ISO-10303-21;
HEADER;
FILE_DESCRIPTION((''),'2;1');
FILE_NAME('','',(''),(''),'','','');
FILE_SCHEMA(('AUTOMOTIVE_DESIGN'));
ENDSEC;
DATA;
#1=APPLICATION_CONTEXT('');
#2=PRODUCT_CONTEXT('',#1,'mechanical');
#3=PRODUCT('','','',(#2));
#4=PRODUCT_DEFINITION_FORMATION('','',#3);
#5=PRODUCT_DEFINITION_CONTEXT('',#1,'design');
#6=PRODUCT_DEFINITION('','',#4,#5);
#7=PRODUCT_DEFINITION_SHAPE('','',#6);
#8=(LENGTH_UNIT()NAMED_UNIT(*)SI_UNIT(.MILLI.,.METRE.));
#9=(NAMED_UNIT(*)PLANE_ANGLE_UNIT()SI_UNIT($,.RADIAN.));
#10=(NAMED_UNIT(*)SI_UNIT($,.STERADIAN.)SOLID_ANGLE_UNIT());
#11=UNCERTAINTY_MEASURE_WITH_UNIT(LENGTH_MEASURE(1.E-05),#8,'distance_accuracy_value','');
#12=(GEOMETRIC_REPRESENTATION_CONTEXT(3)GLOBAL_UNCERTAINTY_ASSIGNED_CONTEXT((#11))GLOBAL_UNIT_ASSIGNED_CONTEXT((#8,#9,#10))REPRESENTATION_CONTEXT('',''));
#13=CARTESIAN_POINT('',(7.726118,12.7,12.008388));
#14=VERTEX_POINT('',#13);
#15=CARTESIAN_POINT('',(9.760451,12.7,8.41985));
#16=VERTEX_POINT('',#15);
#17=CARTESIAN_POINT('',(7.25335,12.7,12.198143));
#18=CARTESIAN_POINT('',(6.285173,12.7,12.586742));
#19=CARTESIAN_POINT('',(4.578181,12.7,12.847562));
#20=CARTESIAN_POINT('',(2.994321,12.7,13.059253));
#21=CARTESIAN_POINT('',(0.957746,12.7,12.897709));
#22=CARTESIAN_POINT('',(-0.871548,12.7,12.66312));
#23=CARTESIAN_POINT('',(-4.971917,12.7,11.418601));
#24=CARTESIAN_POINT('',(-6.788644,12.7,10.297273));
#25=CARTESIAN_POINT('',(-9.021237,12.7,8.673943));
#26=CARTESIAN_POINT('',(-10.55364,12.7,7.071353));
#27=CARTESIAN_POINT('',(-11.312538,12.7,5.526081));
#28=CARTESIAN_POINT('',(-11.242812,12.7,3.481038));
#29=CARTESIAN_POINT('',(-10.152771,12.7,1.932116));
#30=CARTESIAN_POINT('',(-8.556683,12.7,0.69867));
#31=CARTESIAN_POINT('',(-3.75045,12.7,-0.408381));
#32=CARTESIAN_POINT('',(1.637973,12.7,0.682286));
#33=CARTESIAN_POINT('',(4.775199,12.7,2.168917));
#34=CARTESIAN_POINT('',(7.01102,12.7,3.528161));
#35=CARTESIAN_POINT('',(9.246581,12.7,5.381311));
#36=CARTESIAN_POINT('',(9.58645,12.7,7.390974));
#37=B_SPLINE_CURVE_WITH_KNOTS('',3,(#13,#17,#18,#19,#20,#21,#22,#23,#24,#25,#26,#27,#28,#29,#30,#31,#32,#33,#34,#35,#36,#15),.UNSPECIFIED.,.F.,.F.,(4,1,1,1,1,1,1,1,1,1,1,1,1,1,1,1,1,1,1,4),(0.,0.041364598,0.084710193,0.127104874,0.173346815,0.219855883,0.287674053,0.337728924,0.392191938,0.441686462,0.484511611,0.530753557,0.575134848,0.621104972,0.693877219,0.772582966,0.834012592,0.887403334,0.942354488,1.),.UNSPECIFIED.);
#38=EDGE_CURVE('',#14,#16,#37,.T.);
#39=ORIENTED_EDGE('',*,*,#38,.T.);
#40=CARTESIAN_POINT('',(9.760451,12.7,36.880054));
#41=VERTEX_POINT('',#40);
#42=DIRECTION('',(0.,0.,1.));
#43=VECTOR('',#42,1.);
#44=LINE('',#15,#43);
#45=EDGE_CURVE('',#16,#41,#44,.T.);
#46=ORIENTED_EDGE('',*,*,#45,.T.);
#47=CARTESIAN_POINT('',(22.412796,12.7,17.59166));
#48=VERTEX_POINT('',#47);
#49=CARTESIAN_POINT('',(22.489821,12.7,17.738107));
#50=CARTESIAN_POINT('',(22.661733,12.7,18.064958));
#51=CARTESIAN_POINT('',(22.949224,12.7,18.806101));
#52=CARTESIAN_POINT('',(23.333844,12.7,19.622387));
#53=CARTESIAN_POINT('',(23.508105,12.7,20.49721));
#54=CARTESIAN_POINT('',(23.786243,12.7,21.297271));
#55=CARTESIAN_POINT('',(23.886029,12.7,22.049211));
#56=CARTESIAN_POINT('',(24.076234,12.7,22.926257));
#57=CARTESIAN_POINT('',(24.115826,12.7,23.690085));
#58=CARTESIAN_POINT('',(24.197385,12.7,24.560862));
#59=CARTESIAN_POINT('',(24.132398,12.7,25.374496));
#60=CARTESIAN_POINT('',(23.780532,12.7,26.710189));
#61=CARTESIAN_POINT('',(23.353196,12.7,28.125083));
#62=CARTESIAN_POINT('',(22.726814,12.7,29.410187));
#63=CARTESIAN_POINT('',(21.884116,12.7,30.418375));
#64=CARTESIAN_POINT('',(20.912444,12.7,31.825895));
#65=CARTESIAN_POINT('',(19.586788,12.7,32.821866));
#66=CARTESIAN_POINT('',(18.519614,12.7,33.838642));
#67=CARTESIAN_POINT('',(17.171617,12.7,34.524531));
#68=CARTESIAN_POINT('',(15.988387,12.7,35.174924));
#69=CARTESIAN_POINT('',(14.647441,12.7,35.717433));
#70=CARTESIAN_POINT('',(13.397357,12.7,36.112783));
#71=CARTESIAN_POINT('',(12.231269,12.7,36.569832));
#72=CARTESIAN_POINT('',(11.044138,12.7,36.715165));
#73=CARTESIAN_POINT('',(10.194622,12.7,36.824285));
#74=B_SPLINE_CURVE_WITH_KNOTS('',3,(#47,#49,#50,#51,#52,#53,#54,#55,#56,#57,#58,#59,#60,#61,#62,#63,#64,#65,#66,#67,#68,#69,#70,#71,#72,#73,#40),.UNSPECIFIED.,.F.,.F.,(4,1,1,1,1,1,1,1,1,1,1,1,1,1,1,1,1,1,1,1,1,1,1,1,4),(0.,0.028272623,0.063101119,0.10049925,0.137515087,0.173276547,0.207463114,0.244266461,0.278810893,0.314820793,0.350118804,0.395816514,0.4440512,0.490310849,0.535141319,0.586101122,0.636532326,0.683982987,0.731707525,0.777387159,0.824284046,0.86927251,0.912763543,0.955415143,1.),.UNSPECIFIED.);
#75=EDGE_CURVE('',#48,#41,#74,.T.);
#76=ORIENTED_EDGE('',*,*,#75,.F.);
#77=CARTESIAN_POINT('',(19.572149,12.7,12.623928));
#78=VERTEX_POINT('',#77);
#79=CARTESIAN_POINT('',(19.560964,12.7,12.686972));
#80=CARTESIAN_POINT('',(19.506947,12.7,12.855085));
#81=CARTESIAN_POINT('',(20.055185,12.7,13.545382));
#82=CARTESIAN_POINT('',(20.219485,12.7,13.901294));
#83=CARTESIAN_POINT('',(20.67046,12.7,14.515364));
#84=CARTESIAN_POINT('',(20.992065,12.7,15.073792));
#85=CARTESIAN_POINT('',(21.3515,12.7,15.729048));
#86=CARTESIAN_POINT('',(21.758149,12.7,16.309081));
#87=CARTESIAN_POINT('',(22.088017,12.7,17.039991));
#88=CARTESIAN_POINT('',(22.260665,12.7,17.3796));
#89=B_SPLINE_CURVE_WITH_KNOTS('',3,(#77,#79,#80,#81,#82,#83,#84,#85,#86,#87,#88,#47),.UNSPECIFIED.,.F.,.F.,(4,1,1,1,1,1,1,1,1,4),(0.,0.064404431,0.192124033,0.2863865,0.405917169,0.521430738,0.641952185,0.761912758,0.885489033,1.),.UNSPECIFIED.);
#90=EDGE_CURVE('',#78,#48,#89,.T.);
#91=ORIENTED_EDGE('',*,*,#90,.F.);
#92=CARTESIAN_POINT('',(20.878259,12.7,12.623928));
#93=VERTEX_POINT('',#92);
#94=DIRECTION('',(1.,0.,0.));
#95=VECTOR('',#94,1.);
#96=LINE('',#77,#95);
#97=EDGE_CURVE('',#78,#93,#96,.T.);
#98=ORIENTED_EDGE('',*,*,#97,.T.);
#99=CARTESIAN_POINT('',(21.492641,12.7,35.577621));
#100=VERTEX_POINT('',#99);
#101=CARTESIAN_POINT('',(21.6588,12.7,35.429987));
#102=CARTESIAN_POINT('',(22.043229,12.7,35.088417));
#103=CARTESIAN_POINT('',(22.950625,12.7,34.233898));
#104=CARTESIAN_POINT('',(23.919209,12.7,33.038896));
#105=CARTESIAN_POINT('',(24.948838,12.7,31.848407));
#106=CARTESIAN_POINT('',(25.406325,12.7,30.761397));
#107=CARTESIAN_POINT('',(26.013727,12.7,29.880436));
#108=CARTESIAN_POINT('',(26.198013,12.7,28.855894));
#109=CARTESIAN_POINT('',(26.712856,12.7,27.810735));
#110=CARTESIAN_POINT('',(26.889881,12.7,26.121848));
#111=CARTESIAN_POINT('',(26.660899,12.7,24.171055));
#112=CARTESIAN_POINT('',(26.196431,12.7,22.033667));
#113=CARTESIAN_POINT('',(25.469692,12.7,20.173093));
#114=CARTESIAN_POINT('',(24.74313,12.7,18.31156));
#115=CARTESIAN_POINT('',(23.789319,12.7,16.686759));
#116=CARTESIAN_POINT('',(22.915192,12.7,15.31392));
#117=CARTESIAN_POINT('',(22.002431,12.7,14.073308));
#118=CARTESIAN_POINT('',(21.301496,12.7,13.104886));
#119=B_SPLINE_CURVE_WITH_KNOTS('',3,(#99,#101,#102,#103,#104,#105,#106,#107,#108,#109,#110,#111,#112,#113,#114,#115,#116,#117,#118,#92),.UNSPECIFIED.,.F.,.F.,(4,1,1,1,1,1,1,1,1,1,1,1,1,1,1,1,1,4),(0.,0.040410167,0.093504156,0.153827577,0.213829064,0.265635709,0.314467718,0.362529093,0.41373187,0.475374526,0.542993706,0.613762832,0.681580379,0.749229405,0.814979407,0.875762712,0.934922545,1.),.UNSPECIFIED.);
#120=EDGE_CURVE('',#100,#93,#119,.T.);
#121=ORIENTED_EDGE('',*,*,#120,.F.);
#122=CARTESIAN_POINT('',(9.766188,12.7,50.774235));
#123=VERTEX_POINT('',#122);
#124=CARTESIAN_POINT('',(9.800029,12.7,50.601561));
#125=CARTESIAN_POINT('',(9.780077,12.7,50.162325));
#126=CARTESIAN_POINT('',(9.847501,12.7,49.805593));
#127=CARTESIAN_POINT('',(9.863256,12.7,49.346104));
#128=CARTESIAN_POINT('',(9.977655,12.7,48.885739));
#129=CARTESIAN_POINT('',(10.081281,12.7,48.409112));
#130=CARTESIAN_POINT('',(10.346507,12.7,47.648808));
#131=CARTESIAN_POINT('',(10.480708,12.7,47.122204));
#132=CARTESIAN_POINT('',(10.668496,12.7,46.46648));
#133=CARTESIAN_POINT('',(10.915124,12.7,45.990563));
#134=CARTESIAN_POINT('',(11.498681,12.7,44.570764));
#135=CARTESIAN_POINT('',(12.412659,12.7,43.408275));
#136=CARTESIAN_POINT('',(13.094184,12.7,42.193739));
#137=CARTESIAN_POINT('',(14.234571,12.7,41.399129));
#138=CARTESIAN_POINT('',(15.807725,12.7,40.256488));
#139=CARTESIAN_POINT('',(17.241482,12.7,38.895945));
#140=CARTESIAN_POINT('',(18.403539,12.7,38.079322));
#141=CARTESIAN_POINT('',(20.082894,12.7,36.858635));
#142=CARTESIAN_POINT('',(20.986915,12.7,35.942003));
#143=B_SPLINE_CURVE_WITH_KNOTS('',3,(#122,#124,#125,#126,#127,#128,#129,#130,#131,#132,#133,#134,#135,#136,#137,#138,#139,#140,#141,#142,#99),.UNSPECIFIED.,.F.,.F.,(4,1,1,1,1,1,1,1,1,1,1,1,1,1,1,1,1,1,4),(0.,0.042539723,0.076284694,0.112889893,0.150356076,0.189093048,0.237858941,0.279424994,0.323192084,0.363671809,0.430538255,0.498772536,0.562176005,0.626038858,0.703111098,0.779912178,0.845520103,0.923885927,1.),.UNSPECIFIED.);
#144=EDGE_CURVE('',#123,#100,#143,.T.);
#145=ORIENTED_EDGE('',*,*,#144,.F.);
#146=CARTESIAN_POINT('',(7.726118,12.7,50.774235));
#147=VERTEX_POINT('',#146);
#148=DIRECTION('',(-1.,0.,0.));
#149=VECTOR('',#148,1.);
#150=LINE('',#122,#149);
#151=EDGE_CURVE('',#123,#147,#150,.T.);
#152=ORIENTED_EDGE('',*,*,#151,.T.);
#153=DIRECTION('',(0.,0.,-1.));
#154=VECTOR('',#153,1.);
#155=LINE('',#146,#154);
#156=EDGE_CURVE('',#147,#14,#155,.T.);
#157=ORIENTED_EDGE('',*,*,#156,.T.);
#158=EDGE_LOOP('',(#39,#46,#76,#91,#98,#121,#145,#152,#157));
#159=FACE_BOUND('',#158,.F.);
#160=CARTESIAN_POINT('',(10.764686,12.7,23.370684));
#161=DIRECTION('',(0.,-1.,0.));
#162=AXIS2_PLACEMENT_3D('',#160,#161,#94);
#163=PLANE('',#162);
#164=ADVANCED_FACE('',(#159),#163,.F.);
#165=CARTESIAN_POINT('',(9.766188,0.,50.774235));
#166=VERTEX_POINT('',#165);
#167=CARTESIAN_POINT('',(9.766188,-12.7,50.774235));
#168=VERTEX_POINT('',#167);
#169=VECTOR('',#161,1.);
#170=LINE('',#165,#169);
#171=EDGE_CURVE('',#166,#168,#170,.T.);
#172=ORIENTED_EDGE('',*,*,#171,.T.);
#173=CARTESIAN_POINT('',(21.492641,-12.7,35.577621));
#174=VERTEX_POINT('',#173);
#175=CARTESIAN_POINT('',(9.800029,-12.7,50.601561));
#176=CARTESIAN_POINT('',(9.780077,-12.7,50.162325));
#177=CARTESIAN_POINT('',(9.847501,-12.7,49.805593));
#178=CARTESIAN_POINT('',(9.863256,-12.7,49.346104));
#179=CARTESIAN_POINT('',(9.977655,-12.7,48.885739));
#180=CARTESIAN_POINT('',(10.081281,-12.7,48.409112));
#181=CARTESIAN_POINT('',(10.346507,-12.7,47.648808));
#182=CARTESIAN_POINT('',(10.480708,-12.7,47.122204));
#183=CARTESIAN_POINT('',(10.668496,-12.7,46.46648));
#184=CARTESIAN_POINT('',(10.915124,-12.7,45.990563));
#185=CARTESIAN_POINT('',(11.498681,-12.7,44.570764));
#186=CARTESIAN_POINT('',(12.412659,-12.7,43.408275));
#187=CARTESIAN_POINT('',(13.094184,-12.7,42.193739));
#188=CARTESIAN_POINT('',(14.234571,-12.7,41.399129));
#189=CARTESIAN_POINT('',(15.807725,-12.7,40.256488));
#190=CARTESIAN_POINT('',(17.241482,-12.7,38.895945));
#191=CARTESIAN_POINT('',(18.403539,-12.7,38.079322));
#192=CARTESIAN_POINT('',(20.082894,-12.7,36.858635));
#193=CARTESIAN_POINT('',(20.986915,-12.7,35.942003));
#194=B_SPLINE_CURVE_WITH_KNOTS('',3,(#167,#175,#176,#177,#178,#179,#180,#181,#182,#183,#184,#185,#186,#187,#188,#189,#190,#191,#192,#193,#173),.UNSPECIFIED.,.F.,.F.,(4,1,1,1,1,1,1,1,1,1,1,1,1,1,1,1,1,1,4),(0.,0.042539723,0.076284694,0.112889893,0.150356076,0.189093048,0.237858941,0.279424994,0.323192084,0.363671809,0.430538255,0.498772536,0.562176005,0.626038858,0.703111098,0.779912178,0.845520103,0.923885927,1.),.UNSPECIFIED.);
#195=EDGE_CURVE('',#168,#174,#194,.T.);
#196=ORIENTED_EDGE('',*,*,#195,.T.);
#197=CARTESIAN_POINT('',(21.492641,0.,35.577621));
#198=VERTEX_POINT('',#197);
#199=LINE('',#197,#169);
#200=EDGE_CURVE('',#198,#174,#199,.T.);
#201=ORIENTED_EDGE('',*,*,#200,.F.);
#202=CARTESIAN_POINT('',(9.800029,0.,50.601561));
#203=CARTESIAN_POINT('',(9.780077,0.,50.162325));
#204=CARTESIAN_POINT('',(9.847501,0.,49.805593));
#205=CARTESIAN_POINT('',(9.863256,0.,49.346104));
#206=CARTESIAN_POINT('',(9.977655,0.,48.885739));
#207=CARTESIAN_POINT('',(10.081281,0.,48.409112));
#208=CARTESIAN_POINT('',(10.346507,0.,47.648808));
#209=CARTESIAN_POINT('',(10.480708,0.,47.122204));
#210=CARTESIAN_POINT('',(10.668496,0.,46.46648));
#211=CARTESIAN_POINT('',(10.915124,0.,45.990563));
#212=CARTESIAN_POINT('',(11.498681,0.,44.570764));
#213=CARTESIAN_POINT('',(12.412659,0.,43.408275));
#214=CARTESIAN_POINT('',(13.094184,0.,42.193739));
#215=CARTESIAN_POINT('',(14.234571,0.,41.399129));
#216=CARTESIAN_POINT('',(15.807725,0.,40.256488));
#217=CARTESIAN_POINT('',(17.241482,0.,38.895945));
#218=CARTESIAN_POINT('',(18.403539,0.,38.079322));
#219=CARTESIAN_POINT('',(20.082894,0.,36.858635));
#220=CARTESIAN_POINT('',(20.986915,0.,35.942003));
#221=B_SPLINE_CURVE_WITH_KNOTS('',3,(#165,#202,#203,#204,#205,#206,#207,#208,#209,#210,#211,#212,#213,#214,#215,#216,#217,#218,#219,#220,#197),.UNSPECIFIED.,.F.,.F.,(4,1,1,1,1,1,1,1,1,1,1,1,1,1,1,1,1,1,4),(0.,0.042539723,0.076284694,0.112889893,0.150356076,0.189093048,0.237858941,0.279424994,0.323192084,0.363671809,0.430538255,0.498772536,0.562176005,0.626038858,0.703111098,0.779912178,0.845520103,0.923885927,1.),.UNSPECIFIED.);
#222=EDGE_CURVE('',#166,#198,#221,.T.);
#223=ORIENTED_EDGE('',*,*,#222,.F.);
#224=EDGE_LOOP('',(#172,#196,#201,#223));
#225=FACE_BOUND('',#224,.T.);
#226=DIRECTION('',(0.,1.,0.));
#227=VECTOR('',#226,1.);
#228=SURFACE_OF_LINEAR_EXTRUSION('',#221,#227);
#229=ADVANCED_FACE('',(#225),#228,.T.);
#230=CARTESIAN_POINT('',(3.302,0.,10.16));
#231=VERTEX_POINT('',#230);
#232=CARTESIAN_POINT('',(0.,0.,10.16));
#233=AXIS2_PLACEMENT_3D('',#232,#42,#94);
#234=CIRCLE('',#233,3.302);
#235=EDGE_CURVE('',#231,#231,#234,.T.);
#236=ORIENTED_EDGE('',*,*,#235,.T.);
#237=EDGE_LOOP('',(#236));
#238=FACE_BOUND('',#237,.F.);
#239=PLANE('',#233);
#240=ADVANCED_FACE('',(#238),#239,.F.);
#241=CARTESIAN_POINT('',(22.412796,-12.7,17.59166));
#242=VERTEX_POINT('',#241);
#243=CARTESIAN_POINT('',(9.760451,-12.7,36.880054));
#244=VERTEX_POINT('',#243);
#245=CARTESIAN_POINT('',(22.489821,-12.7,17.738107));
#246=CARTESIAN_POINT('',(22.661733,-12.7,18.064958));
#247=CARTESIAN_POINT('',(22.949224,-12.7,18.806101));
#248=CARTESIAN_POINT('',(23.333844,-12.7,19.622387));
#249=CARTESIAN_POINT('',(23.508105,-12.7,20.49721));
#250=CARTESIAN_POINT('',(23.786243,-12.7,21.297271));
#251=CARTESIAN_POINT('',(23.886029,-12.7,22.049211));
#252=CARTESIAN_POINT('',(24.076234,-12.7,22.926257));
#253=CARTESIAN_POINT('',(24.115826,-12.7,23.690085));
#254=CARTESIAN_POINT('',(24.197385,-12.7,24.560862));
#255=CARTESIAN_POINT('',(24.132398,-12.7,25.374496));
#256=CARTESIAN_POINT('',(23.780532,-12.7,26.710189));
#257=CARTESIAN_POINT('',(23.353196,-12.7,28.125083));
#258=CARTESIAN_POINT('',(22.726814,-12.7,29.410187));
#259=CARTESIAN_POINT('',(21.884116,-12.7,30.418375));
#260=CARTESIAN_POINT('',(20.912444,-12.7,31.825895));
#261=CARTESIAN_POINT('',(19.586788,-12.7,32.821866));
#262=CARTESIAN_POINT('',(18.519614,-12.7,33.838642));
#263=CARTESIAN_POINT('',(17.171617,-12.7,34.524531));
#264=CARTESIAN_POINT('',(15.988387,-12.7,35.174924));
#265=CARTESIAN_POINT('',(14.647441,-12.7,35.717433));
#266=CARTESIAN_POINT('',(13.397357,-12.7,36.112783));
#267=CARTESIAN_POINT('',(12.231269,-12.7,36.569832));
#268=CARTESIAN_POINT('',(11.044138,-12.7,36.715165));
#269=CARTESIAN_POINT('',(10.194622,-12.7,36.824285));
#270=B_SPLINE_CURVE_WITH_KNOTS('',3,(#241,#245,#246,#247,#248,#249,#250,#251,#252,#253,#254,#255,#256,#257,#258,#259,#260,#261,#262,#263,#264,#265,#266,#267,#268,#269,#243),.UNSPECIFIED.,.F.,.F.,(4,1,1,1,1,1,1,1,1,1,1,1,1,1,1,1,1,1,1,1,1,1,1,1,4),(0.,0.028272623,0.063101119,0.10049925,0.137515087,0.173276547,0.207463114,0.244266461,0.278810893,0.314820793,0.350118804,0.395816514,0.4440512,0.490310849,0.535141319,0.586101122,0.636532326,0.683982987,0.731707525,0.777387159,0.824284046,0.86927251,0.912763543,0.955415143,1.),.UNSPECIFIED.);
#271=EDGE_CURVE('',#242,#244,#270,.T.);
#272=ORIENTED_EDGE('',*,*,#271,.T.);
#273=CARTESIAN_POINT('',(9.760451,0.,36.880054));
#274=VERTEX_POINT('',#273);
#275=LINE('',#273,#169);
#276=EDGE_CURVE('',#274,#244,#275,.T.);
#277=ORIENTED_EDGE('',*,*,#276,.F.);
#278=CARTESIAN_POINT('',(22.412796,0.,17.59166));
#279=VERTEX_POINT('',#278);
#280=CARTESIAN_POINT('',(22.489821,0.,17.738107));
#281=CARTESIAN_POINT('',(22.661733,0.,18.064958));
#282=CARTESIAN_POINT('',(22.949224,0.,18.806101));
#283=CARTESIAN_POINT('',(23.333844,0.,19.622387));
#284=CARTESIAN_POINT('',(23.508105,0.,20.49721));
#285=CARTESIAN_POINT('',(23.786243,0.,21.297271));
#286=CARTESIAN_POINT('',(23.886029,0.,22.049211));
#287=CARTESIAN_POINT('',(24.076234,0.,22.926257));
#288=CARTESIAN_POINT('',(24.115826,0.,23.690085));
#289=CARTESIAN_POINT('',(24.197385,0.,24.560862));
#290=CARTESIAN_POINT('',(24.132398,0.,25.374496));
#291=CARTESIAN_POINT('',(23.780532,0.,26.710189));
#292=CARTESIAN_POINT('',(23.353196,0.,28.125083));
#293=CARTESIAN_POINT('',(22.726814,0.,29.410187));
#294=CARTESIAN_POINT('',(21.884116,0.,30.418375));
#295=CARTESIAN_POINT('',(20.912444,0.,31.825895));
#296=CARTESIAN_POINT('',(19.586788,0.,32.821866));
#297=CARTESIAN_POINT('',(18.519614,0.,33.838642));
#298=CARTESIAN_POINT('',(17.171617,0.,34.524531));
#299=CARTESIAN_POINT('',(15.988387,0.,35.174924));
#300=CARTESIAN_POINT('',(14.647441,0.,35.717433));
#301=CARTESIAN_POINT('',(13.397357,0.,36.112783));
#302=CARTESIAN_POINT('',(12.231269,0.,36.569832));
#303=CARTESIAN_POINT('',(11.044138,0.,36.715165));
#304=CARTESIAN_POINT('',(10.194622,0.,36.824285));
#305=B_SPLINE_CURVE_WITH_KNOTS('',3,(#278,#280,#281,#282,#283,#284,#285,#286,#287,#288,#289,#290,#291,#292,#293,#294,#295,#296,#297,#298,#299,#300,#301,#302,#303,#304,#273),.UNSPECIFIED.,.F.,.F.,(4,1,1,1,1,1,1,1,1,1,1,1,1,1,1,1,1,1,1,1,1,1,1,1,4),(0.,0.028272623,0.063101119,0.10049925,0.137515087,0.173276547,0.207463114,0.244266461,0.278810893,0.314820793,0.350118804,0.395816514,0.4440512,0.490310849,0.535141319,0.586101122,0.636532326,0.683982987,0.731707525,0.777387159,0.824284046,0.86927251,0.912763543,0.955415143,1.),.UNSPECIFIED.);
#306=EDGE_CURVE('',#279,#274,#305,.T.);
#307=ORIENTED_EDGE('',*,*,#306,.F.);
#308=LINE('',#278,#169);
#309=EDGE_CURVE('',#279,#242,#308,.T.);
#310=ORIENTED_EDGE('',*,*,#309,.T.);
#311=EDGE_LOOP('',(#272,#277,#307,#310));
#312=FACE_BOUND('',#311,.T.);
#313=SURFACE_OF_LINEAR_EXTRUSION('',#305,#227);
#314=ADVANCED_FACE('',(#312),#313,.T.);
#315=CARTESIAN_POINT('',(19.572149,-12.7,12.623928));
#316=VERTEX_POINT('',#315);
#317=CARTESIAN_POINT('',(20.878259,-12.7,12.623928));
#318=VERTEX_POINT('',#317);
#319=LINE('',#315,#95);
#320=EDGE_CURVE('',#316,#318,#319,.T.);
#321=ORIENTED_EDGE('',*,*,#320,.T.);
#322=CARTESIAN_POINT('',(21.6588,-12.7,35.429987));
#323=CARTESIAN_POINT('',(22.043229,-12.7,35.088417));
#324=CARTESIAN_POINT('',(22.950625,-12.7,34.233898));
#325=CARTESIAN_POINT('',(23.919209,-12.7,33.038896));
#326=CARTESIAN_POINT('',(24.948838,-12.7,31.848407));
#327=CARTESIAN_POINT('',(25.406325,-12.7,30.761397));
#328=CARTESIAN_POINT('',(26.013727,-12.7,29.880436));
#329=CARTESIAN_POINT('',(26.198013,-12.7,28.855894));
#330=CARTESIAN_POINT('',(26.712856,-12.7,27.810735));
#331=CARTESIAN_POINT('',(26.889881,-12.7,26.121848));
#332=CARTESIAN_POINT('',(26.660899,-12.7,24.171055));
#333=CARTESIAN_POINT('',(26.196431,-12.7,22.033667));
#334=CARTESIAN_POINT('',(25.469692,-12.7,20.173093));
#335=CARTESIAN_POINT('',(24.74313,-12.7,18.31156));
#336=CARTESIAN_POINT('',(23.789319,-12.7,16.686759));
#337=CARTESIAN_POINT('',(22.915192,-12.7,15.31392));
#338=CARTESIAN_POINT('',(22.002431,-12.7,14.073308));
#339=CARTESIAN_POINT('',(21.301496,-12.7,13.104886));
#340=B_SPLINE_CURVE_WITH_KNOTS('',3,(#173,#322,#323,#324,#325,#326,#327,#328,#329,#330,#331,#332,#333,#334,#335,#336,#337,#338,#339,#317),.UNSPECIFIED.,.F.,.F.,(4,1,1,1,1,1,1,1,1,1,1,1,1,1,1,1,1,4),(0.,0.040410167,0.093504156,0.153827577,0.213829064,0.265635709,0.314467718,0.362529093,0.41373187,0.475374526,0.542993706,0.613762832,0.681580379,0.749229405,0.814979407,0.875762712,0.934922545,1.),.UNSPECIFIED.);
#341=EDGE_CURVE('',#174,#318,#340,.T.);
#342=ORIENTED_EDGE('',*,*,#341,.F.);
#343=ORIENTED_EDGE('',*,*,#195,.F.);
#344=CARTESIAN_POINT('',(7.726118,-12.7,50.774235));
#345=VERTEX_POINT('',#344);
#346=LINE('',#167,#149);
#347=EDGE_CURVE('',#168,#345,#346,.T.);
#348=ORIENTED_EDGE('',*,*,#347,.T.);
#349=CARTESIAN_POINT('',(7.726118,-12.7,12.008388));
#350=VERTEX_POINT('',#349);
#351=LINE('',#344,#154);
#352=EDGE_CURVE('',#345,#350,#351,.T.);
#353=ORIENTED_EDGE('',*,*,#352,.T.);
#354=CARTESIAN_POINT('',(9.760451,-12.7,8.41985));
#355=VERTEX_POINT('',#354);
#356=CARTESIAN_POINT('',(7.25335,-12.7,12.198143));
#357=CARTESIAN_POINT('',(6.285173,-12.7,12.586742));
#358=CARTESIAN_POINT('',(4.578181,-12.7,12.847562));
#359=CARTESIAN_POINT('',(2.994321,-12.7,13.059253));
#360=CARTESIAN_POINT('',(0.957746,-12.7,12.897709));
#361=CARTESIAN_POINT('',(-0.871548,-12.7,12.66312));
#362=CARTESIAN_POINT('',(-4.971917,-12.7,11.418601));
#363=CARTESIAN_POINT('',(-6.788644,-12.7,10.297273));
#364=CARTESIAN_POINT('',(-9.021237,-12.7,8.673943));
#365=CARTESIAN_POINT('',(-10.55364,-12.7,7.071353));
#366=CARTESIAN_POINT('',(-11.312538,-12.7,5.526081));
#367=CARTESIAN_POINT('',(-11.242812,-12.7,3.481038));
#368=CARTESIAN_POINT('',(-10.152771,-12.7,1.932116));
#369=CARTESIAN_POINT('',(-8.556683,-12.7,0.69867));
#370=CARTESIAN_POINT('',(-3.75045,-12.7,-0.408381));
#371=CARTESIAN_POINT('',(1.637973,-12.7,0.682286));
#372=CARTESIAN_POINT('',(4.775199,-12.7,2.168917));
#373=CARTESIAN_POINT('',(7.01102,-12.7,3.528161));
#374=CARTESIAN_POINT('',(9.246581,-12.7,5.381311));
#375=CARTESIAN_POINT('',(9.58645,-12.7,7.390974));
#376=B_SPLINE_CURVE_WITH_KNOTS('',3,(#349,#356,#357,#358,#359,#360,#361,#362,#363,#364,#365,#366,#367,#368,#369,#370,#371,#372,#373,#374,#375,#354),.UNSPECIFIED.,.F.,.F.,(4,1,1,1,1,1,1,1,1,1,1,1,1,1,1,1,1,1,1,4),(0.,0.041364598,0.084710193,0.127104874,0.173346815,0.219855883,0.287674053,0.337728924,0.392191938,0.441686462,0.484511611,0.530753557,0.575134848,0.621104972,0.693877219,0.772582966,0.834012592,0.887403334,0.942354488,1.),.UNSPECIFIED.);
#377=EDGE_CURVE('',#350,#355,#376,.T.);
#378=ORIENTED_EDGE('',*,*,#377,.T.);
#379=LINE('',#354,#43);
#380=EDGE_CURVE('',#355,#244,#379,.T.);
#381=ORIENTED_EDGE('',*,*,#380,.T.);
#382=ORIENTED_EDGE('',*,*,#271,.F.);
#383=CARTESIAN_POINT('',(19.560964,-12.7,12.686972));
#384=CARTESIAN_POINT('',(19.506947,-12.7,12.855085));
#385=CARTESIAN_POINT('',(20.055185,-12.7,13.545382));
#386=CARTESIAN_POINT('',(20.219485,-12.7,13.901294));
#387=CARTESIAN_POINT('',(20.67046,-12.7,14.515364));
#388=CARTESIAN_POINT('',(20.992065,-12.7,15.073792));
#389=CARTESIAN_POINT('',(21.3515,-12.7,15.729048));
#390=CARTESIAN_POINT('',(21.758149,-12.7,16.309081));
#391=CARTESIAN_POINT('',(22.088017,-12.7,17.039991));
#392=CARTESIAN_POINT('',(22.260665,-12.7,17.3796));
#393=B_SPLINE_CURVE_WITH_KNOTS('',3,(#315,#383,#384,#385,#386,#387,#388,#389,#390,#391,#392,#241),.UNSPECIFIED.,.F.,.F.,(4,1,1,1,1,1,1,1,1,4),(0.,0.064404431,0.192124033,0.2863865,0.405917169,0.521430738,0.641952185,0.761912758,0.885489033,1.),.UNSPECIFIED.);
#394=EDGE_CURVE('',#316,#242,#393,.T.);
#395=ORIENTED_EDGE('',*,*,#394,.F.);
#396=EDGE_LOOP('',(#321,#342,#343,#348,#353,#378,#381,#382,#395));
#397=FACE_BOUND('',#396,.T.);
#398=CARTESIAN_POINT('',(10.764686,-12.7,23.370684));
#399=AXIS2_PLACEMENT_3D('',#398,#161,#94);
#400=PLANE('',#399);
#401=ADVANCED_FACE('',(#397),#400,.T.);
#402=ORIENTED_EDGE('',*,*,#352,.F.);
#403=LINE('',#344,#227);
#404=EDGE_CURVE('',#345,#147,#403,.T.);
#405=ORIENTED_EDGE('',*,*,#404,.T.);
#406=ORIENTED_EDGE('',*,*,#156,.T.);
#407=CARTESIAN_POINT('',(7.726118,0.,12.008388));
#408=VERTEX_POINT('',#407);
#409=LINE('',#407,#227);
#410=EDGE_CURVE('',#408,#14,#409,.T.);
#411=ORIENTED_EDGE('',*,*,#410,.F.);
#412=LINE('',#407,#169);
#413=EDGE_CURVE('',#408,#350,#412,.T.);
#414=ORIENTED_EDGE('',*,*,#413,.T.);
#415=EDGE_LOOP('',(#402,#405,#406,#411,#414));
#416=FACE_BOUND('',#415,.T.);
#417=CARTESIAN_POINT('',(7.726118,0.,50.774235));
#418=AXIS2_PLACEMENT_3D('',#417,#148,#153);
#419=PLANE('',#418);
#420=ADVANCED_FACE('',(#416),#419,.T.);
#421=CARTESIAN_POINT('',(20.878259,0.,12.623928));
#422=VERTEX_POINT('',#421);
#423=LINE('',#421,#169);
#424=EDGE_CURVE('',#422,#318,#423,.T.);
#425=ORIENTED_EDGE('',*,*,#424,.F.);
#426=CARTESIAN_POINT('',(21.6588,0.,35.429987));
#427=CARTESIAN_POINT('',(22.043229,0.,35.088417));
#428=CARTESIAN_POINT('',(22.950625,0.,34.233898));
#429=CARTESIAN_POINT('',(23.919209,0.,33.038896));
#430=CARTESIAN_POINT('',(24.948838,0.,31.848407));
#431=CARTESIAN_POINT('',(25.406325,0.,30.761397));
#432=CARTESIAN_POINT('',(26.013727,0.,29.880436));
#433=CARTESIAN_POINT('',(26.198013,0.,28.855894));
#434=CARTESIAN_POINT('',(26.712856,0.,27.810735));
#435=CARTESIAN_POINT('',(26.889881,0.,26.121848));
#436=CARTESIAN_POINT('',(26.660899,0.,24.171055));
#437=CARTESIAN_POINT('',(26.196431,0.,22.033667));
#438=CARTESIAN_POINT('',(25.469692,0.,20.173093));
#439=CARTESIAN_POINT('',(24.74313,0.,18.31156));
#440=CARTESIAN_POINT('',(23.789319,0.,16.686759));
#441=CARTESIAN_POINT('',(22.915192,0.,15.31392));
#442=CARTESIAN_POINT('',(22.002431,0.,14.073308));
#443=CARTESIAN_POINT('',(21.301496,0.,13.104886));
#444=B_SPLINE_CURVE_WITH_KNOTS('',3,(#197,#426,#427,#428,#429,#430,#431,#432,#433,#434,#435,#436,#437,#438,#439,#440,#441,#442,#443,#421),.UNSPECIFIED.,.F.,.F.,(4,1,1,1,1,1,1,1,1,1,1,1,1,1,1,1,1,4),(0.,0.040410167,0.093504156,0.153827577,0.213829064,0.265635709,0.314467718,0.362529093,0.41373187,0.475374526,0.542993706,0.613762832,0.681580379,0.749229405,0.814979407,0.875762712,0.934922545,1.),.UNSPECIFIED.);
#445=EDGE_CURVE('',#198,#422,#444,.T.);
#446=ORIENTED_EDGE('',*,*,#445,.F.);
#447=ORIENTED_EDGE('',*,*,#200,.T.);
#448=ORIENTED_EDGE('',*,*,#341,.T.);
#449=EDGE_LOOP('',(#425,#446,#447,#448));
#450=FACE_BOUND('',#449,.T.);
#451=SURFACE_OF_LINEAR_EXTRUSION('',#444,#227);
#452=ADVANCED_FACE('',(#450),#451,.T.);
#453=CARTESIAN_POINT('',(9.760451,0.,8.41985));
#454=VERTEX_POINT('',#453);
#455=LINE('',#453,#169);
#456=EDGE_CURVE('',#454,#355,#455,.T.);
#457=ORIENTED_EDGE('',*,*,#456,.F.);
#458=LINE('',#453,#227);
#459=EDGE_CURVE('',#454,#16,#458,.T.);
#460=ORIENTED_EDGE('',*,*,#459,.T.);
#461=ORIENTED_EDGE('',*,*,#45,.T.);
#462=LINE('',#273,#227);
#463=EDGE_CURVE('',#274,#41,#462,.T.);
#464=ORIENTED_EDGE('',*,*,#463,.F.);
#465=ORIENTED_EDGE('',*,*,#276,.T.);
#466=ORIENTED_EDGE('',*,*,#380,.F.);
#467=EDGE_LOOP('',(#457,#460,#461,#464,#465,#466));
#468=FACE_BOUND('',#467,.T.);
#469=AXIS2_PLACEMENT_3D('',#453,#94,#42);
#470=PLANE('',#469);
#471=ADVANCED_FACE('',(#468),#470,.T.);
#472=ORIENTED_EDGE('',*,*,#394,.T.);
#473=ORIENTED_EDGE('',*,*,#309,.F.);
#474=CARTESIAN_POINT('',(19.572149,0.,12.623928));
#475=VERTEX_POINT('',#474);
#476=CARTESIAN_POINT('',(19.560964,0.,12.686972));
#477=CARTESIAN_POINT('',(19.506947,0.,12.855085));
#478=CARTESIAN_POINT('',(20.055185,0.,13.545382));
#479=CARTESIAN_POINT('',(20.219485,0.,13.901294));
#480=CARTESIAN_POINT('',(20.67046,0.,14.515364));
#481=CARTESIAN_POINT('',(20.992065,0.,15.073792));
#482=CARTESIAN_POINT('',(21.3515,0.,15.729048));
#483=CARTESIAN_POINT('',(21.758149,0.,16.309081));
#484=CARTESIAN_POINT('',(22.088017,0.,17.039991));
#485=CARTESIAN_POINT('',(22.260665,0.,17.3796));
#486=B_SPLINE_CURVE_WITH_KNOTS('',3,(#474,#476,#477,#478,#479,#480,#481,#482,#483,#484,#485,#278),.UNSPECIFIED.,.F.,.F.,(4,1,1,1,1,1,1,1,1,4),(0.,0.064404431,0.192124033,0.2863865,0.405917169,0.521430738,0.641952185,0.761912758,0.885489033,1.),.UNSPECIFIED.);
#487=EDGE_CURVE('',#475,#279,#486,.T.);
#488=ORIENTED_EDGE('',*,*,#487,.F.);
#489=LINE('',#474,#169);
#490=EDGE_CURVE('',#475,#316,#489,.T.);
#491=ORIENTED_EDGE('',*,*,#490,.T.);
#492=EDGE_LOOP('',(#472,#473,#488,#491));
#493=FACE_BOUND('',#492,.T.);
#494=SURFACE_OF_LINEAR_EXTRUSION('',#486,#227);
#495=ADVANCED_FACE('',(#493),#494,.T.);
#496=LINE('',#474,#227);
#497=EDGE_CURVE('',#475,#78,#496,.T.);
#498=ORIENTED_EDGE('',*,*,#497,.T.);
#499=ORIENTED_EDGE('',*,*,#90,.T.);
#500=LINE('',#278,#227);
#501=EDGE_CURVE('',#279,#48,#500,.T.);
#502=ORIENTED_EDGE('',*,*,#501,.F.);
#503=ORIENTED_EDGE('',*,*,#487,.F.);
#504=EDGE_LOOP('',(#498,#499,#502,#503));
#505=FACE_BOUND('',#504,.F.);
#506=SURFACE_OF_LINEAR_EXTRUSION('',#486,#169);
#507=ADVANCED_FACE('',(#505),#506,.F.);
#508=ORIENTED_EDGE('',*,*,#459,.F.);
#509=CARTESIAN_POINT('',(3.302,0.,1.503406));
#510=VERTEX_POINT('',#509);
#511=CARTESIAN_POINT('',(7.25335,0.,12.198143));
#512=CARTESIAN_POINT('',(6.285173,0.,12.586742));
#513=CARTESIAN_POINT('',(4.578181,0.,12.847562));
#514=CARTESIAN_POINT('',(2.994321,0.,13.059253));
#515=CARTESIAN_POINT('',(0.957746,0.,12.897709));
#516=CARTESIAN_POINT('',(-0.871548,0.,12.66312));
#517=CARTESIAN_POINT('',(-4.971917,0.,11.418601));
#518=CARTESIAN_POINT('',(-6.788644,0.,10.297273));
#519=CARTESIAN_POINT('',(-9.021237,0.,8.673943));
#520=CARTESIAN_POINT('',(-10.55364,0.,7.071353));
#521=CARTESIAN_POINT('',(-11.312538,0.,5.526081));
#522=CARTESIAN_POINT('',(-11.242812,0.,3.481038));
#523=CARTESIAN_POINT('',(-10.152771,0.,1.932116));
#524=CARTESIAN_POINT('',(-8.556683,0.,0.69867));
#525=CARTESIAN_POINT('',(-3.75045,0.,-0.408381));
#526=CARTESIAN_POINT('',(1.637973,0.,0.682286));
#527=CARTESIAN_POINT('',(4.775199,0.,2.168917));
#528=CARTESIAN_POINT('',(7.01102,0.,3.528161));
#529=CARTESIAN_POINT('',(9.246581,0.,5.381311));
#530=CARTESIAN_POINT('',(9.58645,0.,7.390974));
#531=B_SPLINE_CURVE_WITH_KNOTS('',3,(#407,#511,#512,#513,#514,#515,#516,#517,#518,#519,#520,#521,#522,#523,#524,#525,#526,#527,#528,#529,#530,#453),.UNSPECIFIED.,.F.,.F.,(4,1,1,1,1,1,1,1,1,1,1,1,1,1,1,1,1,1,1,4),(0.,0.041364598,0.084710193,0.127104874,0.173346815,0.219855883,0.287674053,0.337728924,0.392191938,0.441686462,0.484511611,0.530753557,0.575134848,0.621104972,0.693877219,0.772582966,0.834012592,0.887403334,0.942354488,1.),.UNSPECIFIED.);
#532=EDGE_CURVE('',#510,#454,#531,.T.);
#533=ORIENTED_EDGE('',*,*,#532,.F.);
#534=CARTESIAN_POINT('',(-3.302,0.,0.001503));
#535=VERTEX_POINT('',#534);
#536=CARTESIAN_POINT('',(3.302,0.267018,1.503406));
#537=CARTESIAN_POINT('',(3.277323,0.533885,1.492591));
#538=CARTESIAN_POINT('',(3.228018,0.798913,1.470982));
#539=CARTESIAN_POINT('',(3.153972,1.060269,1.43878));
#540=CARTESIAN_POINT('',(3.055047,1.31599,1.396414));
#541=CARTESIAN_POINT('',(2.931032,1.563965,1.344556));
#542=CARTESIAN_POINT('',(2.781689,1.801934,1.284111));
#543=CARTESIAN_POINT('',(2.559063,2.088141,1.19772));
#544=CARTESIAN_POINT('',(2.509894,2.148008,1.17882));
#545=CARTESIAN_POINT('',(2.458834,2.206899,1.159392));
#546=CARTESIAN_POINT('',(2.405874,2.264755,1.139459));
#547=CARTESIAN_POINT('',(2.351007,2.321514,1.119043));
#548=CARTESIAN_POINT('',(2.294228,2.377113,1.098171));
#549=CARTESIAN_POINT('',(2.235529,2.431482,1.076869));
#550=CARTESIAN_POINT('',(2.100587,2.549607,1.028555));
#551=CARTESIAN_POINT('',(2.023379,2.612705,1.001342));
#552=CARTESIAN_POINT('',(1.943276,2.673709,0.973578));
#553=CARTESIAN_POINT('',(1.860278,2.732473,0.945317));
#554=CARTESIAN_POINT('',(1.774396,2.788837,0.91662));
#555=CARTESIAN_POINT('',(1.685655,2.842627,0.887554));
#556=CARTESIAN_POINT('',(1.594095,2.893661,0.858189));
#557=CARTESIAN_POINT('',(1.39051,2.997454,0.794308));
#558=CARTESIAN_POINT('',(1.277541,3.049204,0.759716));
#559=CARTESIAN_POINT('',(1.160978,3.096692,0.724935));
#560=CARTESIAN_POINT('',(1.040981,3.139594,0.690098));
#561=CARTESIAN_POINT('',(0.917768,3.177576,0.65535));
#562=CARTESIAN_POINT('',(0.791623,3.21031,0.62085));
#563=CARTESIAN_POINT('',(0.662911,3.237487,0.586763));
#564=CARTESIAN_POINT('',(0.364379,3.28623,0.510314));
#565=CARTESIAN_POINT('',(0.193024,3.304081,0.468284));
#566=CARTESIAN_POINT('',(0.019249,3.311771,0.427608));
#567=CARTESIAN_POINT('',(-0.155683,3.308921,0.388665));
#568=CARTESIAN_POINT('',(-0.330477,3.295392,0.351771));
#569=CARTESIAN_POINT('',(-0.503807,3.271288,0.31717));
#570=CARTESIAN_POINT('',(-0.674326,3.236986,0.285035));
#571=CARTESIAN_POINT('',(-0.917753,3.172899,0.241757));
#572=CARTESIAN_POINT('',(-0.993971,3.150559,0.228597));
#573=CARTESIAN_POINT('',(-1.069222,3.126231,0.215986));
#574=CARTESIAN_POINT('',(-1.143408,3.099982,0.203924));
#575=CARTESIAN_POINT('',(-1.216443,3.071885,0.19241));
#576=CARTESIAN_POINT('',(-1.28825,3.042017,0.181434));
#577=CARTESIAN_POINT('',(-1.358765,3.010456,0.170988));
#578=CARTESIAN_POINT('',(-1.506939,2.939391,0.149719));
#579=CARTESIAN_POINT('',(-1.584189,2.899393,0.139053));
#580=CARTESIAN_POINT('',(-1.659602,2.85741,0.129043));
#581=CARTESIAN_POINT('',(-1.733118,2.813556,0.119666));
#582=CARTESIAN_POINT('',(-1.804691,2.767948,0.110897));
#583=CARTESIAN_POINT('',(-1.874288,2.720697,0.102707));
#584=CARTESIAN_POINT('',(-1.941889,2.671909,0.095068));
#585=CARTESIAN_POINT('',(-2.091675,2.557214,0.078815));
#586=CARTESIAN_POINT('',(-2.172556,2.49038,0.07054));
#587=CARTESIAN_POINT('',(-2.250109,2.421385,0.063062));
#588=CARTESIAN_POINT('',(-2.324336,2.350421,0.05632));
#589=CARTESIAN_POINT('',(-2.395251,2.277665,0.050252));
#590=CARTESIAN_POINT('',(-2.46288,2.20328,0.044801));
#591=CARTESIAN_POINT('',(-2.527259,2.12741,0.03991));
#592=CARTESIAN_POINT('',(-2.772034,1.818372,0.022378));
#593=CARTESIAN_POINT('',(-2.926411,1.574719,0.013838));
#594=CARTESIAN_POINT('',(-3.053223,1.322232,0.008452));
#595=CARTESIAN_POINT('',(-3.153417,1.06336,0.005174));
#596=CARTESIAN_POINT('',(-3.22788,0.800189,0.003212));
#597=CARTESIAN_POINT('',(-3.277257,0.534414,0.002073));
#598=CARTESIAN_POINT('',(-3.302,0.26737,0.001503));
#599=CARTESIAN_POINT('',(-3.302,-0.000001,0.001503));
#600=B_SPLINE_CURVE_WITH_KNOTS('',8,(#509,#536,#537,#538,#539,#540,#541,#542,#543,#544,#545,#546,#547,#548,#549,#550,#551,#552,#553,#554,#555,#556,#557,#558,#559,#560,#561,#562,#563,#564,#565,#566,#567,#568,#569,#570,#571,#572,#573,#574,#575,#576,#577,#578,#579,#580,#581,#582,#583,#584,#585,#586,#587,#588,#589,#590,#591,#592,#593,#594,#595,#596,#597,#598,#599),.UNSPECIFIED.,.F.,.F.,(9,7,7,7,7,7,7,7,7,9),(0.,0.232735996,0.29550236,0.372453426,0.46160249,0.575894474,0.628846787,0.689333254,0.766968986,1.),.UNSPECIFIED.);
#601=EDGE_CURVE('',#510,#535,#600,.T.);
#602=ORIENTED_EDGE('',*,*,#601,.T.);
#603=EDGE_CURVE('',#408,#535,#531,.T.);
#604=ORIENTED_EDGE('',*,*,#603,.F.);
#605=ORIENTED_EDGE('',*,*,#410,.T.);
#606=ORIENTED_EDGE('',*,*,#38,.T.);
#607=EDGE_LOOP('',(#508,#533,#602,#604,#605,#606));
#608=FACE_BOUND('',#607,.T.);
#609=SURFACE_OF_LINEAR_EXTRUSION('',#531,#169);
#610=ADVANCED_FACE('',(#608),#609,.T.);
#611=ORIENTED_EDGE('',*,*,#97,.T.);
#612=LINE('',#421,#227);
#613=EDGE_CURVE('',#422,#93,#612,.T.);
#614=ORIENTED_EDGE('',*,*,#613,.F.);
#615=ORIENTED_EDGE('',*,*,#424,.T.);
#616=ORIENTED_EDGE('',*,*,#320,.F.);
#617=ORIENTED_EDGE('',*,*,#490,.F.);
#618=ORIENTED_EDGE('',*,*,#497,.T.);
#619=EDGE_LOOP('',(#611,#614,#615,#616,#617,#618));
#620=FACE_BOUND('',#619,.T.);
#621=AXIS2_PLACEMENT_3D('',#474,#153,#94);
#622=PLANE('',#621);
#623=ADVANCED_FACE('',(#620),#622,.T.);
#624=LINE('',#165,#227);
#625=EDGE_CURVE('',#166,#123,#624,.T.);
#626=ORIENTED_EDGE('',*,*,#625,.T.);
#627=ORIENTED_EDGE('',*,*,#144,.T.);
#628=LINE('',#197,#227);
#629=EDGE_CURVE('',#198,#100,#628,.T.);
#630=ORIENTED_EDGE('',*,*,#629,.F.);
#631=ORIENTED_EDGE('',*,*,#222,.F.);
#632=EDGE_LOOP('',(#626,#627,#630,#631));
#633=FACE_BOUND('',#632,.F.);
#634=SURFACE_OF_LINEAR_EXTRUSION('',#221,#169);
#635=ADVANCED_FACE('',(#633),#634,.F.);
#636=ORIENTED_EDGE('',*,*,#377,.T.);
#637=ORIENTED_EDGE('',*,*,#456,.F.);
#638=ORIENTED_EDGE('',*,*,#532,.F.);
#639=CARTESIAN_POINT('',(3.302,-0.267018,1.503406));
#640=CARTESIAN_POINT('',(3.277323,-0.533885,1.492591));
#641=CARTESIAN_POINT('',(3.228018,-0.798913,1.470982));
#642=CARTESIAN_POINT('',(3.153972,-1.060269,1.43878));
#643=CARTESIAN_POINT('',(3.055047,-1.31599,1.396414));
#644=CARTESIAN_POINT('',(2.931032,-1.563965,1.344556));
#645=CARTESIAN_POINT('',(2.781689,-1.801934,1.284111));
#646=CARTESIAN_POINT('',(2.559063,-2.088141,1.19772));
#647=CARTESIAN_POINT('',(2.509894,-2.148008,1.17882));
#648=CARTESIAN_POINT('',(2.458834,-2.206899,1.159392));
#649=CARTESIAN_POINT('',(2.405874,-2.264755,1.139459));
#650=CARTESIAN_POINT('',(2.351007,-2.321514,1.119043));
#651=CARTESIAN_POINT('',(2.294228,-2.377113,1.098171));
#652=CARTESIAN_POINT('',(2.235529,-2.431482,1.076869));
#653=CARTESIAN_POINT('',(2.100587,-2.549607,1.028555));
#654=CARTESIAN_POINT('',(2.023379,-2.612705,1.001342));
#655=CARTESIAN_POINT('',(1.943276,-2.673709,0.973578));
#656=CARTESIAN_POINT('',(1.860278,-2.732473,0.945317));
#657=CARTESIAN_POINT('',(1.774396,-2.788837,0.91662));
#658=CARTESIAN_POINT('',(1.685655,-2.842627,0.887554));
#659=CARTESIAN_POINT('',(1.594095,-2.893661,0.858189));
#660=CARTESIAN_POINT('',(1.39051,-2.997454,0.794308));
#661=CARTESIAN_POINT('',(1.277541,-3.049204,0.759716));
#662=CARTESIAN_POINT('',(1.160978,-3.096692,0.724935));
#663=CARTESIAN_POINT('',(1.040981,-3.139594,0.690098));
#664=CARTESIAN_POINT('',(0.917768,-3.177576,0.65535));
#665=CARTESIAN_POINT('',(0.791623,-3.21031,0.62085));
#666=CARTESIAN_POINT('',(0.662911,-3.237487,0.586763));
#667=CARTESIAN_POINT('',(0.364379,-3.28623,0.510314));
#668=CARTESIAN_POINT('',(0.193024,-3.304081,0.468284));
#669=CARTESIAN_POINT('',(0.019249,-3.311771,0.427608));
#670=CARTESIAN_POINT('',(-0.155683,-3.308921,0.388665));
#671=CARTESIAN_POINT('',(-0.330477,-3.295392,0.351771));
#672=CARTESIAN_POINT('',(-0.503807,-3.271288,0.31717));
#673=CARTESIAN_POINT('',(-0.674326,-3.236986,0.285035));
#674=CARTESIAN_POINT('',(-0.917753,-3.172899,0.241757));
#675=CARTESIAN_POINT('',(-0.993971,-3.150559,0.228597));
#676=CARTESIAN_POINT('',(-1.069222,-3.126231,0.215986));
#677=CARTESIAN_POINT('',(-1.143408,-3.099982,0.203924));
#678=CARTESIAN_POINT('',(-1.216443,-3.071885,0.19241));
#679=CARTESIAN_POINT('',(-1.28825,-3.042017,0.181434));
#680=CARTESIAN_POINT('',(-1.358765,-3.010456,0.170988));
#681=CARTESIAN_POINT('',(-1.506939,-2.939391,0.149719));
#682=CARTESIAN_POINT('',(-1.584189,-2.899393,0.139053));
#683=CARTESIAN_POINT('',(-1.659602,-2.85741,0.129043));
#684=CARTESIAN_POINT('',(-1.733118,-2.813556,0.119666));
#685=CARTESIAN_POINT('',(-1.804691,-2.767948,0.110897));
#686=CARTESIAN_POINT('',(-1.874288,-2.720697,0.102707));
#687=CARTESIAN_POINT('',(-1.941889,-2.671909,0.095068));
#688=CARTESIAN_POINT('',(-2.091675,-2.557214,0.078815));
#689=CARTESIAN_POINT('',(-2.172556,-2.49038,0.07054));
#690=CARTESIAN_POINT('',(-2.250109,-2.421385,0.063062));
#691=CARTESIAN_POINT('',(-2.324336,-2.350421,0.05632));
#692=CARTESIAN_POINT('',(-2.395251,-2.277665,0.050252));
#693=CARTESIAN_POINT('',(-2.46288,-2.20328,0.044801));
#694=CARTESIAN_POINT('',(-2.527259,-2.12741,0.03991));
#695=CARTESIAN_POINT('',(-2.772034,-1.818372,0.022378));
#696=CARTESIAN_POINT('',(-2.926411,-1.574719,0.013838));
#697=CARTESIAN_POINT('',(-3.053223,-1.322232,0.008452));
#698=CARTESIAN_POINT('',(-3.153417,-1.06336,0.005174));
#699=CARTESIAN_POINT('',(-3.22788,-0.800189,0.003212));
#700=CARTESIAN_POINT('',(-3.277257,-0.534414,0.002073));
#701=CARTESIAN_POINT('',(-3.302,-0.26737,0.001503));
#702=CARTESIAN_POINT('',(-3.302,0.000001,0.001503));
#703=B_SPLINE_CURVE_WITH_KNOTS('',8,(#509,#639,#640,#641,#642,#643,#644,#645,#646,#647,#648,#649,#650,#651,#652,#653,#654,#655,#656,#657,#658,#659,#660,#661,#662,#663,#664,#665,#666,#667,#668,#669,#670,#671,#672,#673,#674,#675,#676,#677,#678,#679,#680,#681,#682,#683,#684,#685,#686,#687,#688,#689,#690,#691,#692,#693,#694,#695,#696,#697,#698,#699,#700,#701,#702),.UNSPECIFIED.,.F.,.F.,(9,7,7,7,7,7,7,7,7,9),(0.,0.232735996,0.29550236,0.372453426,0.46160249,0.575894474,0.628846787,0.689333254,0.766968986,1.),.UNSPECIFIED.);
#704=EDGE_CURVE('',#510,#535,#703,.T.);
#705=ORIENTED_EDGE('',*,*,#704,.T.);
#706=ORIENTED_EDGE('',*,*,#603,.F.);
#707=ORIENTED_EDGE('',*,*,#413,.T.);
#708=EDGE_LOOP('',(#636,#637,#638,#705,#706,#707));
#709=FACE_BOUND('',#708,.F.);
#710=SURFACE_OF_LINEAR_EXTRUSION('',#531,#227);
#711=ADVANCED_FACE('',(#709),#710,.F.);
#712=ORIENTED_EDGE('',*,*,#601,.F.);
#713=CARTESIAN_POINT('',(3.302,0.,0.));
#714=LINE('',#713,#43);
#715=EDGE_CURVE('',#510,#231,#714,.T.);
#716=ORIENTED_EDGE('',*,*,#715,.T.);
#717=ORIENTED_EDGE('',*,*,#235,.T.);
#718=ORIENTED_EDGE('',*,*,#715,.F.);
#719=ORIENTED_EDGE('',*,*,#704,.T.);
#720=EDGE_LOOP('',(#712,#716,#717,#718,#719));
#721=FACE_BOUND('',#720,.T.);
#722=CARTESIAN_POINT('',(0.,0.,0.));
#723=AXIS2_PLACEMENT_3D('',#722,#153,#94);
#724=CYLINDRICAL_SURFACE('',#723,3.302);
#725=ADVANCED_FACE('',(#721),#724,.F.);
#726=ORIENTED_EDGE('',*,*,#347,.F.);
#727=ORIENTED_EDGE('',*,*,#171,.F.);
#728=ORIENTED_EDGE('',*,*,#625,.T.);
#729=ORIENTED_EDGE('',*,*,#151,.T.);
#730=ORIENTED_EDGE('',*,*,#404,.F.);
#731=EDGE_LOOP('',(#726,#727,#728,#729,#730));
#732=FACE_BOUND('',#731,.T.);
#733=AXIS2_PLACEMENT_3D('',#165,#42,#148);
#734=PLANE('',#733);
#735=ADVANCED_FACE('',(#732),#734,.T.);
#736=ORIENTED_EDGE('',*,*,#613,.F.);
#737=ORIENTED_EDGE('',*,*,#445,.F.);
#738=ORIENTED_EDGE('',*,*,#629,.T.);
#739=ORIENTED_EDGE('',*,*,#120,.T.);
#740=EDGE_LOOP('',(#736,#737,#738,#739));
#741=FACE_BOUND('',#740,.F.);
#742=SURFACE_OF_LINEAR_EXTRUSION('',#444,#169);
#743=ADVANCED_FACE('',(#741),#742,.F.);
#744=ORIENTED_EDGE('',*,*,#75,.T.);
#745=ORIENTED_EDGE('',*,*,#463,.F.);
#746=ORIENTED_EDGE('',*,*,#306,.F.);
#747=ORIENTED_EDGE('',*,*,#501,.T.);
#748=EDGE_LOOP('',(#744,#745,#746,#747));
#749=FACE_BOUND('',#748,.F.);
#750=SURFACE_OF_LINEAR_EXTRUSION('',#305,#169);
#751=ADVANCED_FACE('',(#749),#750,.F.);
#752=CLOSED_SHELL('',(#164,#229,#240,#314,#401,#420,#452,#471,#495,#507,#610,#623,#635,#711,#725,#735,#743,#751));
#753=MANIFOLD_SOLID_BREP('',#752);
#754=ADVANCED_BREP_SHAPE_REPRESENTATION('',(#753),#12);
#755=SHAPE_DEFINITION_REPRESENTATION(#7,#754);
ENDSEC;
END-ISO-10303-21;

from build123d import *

# Parameters (mm, degrees)
F2_DEPTH      = 12.7
F2_DEPTH_BACK = 12.7
F0_R          = 3.302
F3_DEPTH      = 10.16


with BuildPart() as f2:
    # F1 (on Front) → F2 (new body, two sides)
    with BuildSketch(Plane.XZ) as f2_sk:
        with BuildLine():
            Line((9.7604505718, 8.4198499098), (9.7604505718, 36.8800535798))
            add(Edge.make_bspline(
                [(22.4127957533, 17.5916603297), (22.489821291, 17.7381068608), (22.6617330935, 18.0649580309), (22.9492244437, 18.8061006578), (23.3338441267, 19.6223868071), (23.5081053246, 20.497209608), (23.7862431519, 21.2972712888), (23.8860290465, 22.0492108214), (24.0762344384, 22.9262569625), (24.1158257152, 23.6900848838), (24.1973853507, 24.5608622909), (24.1323975463, 25.3744961879), (23.7805318453, 26.710188546), (23.353195834, 28.1250832432), (22.7268140299, 29.4101865831), (21.8841163553, 30.4183751239), (20.9124444789, 31.8258950506), (19.5867877737, 32.8218662432), (18.519614194, 33.8386424004), (17.171617193, 34.5245310692), (15.9883865147, 35.1749244975), (14.6474410628, 35.7174328398), (13.3973573066, 36.1127830987), (12.2312694073, 36.5698323887), (11.0441384661, 36.7151654266), (10.1946219463, 36.8242847933), (9.7604505718, 36.8800535798)],
                knots=[0, 0, 0, 0, 0.0282726232, 0.063101119, 0.1004992502, 0.1375150871, 0.1732765474, 0.2074631145, 0.2442664606, 0.2788108928, 0.3148207931, 0.3501188038, 0.3958165135, 0.4440511999, 0.4903108494, 0.535141319, 0.5861011217, 0.6365323256, 0.6839829873, 0.7317075247, 0.7773871586, 0.8242840456, 0.8692725102, 0.9127635425, 0.9554151429, 1, 1, 1, 1], degree=3))
            add(Edge.make_bspline(
                [(19.572148728, 12.6239284849), (19.5609635311, 12.6869721401), (19.5069474209, 12.8550854428), (20.0551850253, 13.5453818769), (20.2194848186, 13.901293997), (20.6704597949, 14.5153636317), (20.9920651047, 15.0737923305), (21.3515004541, 15.7290478203), (21.7581492689, 16.3090812174), (22.0880168591, 17.0399911862), (22.260665161, 17.3796003205), (22.4127957533, 17.5916603297)],
                knots=[0, 0, 0, 0, 0.0644044311, 0.1921240331, 0.2863865, 0.4059171688, 0.5214307385, 0.6419521847, 0.7619127583, 0.8854890331, 1, 1, 1, 1], degree=3))
            Line((19.572148728, 12.6239284849), (20.8782590926, 12.6239284849))
            add(Edge.make_bspline(
                [(21.4926414192, 35.5776213109), (21.6588002826, 35.4299870146), (22.0432292299, 35.0884169294), (22.9506247152, 34.2338980383), (23.9192086411, 33.0388956066), (24.9488380501, 31.8484065533), (25.4063252244, 30.7613970809), (26.0137273639, 29.8804360599), (26.1980134273, 28.8558940704), (26.7128560857, 27.8107353372), (26.8898808357, 26.1218484391), (26.6608985717, 24.171055357), (26.196431493, 22.0336665583), (25.4696923642, 20.1730932334), (24.7431297304, 18.3115595442), (23.7893190894, 16.6867593467), (22.9151920391, 15.3139197013), (22.0024307163, 14.0733082601), (21.3014958191, 13.1048864092), (20.8782590926, 12.6239284849)],
                knots=[0, 0, 0, 0, 0.0404101675, 0.0935041556, 0.1538275771, 0.2138290636, 0.2656357094, 0.3144677178, 0.3625290933, 0.4137318704, 0.4753745262, 0.5429937059, 0.6137628324, 0.6815803791, 0.7492294051, 0.8149794066, 0.8757627119, 0.9349225449, 1, 1, 1, 1], degree=3))
            add(Edge.make_bspline(
                [(9.7661875188, 50.7742352784), (9.8000292656, 50.6015610464), (9.7800773898, 50.1623249565), (9.847501114, 49.8055928638), (9.8632563026, 49.346104023), (9.9776550945, 48.885739217), (10.0812811834, 48.4091124172), (10.3465072733, 47.6488078928), (10.4807080708, 47.1222042577), (10.668495829, 46.4664796729), (10.9151241629, 45.9905632432), (11.4986814881, 44.5707642552), (12.4126589846, 43.4082745592), (13.0941844967, 42.1937386364), (14.2345708994, 41.3991294234), (15.8077253027, 40.2564880465), (17.241482497, 38.8959447691), (18.4035388963, 38.0793224694), (20.0828942132, 36.8586353013), (20.986915322, 35.9420028464), (21.4926414192, 35.5776213109)],
                knots=[0, 0, 0, 0, 0.0425397227, 0.0762846942, 0.112889893, 0.1503560763, 0.1890930483, 0.2378589411, 0.2794249938, 0.3231920841, 0.3636718095, 0.4305382554, 0.4987725364, 0.5621760047, 0.6260388576, 0.7031110984, 0.7799121778, 0.8455201032, 0.9238859265, 1, 1, 1, 1], degree=3))
            Line((9.7661875188, 50.7742352784), (7.7261179686, 50.7742352784))
            Line((7.7261179686, 50.7742352784), (7.7261179686, 12.0083875954))
            add(Edge.make_bspline(
                [(7.7261179686, 12.0083875954), (7.2533501662, 12.1981432861), (6.2851731943, 12.586742275), (4.578180622, 12.847561735), (2.9943210571, 13.0592530067), (0.9577459587, 12.8977085785), (-0.8715475802, 12.6631195757), (-4.9719166989, 11.4186013651), (-6.7886437665, 10.2972726308), (-9.0212365044, 8.6739430509), (-10.553640047, 7.0713534086), (-11.3125380824, 5.5260809136), (-11.2428122599, 3.4810378464), (-10.1527709089, 1.9321163314), (-8.5566827985, 0.6986695944), (-3.7504495581, -0.4083808406), (1.6379732036, 0.6822856726), (4.7751988749, 2.1689167673), (7.0110204291, 3.5281612102), (9.2465807514, 5.3813113947), (9.5864496903, 7.3909738033), (9.7604505718, 8.4198499098)],
                knots=[0, 0, 0, 0, 0.0413645984, 0.0847101926, 0.1271048736, 0.1733468151, 0.2198558828, 0.2876740527, 0.3377289235, 0.3921919382, 0.441686462, 0.4845116109, 0.5307535571, 0.5751348481, 0.6211049722, 0.6938772186, 0.7725829658, 0.8340125917, 0.8874033341, 0.9423544876, 1, 1, 1, 1], degree=3))
        make_face()
    extrude(amount=F2_DEPTH)
    extrude(f2_sk.sketch, amount=-F2_DEPTH_BACK)

    # F0 (on Top) → F3 (cut)
    with BuildSketch(Plane.XY):
        Circle(F0_R)
    extrude(amount=F3_DEPTH, mode=Mode.SUBTRACT)


solid = f2.part
